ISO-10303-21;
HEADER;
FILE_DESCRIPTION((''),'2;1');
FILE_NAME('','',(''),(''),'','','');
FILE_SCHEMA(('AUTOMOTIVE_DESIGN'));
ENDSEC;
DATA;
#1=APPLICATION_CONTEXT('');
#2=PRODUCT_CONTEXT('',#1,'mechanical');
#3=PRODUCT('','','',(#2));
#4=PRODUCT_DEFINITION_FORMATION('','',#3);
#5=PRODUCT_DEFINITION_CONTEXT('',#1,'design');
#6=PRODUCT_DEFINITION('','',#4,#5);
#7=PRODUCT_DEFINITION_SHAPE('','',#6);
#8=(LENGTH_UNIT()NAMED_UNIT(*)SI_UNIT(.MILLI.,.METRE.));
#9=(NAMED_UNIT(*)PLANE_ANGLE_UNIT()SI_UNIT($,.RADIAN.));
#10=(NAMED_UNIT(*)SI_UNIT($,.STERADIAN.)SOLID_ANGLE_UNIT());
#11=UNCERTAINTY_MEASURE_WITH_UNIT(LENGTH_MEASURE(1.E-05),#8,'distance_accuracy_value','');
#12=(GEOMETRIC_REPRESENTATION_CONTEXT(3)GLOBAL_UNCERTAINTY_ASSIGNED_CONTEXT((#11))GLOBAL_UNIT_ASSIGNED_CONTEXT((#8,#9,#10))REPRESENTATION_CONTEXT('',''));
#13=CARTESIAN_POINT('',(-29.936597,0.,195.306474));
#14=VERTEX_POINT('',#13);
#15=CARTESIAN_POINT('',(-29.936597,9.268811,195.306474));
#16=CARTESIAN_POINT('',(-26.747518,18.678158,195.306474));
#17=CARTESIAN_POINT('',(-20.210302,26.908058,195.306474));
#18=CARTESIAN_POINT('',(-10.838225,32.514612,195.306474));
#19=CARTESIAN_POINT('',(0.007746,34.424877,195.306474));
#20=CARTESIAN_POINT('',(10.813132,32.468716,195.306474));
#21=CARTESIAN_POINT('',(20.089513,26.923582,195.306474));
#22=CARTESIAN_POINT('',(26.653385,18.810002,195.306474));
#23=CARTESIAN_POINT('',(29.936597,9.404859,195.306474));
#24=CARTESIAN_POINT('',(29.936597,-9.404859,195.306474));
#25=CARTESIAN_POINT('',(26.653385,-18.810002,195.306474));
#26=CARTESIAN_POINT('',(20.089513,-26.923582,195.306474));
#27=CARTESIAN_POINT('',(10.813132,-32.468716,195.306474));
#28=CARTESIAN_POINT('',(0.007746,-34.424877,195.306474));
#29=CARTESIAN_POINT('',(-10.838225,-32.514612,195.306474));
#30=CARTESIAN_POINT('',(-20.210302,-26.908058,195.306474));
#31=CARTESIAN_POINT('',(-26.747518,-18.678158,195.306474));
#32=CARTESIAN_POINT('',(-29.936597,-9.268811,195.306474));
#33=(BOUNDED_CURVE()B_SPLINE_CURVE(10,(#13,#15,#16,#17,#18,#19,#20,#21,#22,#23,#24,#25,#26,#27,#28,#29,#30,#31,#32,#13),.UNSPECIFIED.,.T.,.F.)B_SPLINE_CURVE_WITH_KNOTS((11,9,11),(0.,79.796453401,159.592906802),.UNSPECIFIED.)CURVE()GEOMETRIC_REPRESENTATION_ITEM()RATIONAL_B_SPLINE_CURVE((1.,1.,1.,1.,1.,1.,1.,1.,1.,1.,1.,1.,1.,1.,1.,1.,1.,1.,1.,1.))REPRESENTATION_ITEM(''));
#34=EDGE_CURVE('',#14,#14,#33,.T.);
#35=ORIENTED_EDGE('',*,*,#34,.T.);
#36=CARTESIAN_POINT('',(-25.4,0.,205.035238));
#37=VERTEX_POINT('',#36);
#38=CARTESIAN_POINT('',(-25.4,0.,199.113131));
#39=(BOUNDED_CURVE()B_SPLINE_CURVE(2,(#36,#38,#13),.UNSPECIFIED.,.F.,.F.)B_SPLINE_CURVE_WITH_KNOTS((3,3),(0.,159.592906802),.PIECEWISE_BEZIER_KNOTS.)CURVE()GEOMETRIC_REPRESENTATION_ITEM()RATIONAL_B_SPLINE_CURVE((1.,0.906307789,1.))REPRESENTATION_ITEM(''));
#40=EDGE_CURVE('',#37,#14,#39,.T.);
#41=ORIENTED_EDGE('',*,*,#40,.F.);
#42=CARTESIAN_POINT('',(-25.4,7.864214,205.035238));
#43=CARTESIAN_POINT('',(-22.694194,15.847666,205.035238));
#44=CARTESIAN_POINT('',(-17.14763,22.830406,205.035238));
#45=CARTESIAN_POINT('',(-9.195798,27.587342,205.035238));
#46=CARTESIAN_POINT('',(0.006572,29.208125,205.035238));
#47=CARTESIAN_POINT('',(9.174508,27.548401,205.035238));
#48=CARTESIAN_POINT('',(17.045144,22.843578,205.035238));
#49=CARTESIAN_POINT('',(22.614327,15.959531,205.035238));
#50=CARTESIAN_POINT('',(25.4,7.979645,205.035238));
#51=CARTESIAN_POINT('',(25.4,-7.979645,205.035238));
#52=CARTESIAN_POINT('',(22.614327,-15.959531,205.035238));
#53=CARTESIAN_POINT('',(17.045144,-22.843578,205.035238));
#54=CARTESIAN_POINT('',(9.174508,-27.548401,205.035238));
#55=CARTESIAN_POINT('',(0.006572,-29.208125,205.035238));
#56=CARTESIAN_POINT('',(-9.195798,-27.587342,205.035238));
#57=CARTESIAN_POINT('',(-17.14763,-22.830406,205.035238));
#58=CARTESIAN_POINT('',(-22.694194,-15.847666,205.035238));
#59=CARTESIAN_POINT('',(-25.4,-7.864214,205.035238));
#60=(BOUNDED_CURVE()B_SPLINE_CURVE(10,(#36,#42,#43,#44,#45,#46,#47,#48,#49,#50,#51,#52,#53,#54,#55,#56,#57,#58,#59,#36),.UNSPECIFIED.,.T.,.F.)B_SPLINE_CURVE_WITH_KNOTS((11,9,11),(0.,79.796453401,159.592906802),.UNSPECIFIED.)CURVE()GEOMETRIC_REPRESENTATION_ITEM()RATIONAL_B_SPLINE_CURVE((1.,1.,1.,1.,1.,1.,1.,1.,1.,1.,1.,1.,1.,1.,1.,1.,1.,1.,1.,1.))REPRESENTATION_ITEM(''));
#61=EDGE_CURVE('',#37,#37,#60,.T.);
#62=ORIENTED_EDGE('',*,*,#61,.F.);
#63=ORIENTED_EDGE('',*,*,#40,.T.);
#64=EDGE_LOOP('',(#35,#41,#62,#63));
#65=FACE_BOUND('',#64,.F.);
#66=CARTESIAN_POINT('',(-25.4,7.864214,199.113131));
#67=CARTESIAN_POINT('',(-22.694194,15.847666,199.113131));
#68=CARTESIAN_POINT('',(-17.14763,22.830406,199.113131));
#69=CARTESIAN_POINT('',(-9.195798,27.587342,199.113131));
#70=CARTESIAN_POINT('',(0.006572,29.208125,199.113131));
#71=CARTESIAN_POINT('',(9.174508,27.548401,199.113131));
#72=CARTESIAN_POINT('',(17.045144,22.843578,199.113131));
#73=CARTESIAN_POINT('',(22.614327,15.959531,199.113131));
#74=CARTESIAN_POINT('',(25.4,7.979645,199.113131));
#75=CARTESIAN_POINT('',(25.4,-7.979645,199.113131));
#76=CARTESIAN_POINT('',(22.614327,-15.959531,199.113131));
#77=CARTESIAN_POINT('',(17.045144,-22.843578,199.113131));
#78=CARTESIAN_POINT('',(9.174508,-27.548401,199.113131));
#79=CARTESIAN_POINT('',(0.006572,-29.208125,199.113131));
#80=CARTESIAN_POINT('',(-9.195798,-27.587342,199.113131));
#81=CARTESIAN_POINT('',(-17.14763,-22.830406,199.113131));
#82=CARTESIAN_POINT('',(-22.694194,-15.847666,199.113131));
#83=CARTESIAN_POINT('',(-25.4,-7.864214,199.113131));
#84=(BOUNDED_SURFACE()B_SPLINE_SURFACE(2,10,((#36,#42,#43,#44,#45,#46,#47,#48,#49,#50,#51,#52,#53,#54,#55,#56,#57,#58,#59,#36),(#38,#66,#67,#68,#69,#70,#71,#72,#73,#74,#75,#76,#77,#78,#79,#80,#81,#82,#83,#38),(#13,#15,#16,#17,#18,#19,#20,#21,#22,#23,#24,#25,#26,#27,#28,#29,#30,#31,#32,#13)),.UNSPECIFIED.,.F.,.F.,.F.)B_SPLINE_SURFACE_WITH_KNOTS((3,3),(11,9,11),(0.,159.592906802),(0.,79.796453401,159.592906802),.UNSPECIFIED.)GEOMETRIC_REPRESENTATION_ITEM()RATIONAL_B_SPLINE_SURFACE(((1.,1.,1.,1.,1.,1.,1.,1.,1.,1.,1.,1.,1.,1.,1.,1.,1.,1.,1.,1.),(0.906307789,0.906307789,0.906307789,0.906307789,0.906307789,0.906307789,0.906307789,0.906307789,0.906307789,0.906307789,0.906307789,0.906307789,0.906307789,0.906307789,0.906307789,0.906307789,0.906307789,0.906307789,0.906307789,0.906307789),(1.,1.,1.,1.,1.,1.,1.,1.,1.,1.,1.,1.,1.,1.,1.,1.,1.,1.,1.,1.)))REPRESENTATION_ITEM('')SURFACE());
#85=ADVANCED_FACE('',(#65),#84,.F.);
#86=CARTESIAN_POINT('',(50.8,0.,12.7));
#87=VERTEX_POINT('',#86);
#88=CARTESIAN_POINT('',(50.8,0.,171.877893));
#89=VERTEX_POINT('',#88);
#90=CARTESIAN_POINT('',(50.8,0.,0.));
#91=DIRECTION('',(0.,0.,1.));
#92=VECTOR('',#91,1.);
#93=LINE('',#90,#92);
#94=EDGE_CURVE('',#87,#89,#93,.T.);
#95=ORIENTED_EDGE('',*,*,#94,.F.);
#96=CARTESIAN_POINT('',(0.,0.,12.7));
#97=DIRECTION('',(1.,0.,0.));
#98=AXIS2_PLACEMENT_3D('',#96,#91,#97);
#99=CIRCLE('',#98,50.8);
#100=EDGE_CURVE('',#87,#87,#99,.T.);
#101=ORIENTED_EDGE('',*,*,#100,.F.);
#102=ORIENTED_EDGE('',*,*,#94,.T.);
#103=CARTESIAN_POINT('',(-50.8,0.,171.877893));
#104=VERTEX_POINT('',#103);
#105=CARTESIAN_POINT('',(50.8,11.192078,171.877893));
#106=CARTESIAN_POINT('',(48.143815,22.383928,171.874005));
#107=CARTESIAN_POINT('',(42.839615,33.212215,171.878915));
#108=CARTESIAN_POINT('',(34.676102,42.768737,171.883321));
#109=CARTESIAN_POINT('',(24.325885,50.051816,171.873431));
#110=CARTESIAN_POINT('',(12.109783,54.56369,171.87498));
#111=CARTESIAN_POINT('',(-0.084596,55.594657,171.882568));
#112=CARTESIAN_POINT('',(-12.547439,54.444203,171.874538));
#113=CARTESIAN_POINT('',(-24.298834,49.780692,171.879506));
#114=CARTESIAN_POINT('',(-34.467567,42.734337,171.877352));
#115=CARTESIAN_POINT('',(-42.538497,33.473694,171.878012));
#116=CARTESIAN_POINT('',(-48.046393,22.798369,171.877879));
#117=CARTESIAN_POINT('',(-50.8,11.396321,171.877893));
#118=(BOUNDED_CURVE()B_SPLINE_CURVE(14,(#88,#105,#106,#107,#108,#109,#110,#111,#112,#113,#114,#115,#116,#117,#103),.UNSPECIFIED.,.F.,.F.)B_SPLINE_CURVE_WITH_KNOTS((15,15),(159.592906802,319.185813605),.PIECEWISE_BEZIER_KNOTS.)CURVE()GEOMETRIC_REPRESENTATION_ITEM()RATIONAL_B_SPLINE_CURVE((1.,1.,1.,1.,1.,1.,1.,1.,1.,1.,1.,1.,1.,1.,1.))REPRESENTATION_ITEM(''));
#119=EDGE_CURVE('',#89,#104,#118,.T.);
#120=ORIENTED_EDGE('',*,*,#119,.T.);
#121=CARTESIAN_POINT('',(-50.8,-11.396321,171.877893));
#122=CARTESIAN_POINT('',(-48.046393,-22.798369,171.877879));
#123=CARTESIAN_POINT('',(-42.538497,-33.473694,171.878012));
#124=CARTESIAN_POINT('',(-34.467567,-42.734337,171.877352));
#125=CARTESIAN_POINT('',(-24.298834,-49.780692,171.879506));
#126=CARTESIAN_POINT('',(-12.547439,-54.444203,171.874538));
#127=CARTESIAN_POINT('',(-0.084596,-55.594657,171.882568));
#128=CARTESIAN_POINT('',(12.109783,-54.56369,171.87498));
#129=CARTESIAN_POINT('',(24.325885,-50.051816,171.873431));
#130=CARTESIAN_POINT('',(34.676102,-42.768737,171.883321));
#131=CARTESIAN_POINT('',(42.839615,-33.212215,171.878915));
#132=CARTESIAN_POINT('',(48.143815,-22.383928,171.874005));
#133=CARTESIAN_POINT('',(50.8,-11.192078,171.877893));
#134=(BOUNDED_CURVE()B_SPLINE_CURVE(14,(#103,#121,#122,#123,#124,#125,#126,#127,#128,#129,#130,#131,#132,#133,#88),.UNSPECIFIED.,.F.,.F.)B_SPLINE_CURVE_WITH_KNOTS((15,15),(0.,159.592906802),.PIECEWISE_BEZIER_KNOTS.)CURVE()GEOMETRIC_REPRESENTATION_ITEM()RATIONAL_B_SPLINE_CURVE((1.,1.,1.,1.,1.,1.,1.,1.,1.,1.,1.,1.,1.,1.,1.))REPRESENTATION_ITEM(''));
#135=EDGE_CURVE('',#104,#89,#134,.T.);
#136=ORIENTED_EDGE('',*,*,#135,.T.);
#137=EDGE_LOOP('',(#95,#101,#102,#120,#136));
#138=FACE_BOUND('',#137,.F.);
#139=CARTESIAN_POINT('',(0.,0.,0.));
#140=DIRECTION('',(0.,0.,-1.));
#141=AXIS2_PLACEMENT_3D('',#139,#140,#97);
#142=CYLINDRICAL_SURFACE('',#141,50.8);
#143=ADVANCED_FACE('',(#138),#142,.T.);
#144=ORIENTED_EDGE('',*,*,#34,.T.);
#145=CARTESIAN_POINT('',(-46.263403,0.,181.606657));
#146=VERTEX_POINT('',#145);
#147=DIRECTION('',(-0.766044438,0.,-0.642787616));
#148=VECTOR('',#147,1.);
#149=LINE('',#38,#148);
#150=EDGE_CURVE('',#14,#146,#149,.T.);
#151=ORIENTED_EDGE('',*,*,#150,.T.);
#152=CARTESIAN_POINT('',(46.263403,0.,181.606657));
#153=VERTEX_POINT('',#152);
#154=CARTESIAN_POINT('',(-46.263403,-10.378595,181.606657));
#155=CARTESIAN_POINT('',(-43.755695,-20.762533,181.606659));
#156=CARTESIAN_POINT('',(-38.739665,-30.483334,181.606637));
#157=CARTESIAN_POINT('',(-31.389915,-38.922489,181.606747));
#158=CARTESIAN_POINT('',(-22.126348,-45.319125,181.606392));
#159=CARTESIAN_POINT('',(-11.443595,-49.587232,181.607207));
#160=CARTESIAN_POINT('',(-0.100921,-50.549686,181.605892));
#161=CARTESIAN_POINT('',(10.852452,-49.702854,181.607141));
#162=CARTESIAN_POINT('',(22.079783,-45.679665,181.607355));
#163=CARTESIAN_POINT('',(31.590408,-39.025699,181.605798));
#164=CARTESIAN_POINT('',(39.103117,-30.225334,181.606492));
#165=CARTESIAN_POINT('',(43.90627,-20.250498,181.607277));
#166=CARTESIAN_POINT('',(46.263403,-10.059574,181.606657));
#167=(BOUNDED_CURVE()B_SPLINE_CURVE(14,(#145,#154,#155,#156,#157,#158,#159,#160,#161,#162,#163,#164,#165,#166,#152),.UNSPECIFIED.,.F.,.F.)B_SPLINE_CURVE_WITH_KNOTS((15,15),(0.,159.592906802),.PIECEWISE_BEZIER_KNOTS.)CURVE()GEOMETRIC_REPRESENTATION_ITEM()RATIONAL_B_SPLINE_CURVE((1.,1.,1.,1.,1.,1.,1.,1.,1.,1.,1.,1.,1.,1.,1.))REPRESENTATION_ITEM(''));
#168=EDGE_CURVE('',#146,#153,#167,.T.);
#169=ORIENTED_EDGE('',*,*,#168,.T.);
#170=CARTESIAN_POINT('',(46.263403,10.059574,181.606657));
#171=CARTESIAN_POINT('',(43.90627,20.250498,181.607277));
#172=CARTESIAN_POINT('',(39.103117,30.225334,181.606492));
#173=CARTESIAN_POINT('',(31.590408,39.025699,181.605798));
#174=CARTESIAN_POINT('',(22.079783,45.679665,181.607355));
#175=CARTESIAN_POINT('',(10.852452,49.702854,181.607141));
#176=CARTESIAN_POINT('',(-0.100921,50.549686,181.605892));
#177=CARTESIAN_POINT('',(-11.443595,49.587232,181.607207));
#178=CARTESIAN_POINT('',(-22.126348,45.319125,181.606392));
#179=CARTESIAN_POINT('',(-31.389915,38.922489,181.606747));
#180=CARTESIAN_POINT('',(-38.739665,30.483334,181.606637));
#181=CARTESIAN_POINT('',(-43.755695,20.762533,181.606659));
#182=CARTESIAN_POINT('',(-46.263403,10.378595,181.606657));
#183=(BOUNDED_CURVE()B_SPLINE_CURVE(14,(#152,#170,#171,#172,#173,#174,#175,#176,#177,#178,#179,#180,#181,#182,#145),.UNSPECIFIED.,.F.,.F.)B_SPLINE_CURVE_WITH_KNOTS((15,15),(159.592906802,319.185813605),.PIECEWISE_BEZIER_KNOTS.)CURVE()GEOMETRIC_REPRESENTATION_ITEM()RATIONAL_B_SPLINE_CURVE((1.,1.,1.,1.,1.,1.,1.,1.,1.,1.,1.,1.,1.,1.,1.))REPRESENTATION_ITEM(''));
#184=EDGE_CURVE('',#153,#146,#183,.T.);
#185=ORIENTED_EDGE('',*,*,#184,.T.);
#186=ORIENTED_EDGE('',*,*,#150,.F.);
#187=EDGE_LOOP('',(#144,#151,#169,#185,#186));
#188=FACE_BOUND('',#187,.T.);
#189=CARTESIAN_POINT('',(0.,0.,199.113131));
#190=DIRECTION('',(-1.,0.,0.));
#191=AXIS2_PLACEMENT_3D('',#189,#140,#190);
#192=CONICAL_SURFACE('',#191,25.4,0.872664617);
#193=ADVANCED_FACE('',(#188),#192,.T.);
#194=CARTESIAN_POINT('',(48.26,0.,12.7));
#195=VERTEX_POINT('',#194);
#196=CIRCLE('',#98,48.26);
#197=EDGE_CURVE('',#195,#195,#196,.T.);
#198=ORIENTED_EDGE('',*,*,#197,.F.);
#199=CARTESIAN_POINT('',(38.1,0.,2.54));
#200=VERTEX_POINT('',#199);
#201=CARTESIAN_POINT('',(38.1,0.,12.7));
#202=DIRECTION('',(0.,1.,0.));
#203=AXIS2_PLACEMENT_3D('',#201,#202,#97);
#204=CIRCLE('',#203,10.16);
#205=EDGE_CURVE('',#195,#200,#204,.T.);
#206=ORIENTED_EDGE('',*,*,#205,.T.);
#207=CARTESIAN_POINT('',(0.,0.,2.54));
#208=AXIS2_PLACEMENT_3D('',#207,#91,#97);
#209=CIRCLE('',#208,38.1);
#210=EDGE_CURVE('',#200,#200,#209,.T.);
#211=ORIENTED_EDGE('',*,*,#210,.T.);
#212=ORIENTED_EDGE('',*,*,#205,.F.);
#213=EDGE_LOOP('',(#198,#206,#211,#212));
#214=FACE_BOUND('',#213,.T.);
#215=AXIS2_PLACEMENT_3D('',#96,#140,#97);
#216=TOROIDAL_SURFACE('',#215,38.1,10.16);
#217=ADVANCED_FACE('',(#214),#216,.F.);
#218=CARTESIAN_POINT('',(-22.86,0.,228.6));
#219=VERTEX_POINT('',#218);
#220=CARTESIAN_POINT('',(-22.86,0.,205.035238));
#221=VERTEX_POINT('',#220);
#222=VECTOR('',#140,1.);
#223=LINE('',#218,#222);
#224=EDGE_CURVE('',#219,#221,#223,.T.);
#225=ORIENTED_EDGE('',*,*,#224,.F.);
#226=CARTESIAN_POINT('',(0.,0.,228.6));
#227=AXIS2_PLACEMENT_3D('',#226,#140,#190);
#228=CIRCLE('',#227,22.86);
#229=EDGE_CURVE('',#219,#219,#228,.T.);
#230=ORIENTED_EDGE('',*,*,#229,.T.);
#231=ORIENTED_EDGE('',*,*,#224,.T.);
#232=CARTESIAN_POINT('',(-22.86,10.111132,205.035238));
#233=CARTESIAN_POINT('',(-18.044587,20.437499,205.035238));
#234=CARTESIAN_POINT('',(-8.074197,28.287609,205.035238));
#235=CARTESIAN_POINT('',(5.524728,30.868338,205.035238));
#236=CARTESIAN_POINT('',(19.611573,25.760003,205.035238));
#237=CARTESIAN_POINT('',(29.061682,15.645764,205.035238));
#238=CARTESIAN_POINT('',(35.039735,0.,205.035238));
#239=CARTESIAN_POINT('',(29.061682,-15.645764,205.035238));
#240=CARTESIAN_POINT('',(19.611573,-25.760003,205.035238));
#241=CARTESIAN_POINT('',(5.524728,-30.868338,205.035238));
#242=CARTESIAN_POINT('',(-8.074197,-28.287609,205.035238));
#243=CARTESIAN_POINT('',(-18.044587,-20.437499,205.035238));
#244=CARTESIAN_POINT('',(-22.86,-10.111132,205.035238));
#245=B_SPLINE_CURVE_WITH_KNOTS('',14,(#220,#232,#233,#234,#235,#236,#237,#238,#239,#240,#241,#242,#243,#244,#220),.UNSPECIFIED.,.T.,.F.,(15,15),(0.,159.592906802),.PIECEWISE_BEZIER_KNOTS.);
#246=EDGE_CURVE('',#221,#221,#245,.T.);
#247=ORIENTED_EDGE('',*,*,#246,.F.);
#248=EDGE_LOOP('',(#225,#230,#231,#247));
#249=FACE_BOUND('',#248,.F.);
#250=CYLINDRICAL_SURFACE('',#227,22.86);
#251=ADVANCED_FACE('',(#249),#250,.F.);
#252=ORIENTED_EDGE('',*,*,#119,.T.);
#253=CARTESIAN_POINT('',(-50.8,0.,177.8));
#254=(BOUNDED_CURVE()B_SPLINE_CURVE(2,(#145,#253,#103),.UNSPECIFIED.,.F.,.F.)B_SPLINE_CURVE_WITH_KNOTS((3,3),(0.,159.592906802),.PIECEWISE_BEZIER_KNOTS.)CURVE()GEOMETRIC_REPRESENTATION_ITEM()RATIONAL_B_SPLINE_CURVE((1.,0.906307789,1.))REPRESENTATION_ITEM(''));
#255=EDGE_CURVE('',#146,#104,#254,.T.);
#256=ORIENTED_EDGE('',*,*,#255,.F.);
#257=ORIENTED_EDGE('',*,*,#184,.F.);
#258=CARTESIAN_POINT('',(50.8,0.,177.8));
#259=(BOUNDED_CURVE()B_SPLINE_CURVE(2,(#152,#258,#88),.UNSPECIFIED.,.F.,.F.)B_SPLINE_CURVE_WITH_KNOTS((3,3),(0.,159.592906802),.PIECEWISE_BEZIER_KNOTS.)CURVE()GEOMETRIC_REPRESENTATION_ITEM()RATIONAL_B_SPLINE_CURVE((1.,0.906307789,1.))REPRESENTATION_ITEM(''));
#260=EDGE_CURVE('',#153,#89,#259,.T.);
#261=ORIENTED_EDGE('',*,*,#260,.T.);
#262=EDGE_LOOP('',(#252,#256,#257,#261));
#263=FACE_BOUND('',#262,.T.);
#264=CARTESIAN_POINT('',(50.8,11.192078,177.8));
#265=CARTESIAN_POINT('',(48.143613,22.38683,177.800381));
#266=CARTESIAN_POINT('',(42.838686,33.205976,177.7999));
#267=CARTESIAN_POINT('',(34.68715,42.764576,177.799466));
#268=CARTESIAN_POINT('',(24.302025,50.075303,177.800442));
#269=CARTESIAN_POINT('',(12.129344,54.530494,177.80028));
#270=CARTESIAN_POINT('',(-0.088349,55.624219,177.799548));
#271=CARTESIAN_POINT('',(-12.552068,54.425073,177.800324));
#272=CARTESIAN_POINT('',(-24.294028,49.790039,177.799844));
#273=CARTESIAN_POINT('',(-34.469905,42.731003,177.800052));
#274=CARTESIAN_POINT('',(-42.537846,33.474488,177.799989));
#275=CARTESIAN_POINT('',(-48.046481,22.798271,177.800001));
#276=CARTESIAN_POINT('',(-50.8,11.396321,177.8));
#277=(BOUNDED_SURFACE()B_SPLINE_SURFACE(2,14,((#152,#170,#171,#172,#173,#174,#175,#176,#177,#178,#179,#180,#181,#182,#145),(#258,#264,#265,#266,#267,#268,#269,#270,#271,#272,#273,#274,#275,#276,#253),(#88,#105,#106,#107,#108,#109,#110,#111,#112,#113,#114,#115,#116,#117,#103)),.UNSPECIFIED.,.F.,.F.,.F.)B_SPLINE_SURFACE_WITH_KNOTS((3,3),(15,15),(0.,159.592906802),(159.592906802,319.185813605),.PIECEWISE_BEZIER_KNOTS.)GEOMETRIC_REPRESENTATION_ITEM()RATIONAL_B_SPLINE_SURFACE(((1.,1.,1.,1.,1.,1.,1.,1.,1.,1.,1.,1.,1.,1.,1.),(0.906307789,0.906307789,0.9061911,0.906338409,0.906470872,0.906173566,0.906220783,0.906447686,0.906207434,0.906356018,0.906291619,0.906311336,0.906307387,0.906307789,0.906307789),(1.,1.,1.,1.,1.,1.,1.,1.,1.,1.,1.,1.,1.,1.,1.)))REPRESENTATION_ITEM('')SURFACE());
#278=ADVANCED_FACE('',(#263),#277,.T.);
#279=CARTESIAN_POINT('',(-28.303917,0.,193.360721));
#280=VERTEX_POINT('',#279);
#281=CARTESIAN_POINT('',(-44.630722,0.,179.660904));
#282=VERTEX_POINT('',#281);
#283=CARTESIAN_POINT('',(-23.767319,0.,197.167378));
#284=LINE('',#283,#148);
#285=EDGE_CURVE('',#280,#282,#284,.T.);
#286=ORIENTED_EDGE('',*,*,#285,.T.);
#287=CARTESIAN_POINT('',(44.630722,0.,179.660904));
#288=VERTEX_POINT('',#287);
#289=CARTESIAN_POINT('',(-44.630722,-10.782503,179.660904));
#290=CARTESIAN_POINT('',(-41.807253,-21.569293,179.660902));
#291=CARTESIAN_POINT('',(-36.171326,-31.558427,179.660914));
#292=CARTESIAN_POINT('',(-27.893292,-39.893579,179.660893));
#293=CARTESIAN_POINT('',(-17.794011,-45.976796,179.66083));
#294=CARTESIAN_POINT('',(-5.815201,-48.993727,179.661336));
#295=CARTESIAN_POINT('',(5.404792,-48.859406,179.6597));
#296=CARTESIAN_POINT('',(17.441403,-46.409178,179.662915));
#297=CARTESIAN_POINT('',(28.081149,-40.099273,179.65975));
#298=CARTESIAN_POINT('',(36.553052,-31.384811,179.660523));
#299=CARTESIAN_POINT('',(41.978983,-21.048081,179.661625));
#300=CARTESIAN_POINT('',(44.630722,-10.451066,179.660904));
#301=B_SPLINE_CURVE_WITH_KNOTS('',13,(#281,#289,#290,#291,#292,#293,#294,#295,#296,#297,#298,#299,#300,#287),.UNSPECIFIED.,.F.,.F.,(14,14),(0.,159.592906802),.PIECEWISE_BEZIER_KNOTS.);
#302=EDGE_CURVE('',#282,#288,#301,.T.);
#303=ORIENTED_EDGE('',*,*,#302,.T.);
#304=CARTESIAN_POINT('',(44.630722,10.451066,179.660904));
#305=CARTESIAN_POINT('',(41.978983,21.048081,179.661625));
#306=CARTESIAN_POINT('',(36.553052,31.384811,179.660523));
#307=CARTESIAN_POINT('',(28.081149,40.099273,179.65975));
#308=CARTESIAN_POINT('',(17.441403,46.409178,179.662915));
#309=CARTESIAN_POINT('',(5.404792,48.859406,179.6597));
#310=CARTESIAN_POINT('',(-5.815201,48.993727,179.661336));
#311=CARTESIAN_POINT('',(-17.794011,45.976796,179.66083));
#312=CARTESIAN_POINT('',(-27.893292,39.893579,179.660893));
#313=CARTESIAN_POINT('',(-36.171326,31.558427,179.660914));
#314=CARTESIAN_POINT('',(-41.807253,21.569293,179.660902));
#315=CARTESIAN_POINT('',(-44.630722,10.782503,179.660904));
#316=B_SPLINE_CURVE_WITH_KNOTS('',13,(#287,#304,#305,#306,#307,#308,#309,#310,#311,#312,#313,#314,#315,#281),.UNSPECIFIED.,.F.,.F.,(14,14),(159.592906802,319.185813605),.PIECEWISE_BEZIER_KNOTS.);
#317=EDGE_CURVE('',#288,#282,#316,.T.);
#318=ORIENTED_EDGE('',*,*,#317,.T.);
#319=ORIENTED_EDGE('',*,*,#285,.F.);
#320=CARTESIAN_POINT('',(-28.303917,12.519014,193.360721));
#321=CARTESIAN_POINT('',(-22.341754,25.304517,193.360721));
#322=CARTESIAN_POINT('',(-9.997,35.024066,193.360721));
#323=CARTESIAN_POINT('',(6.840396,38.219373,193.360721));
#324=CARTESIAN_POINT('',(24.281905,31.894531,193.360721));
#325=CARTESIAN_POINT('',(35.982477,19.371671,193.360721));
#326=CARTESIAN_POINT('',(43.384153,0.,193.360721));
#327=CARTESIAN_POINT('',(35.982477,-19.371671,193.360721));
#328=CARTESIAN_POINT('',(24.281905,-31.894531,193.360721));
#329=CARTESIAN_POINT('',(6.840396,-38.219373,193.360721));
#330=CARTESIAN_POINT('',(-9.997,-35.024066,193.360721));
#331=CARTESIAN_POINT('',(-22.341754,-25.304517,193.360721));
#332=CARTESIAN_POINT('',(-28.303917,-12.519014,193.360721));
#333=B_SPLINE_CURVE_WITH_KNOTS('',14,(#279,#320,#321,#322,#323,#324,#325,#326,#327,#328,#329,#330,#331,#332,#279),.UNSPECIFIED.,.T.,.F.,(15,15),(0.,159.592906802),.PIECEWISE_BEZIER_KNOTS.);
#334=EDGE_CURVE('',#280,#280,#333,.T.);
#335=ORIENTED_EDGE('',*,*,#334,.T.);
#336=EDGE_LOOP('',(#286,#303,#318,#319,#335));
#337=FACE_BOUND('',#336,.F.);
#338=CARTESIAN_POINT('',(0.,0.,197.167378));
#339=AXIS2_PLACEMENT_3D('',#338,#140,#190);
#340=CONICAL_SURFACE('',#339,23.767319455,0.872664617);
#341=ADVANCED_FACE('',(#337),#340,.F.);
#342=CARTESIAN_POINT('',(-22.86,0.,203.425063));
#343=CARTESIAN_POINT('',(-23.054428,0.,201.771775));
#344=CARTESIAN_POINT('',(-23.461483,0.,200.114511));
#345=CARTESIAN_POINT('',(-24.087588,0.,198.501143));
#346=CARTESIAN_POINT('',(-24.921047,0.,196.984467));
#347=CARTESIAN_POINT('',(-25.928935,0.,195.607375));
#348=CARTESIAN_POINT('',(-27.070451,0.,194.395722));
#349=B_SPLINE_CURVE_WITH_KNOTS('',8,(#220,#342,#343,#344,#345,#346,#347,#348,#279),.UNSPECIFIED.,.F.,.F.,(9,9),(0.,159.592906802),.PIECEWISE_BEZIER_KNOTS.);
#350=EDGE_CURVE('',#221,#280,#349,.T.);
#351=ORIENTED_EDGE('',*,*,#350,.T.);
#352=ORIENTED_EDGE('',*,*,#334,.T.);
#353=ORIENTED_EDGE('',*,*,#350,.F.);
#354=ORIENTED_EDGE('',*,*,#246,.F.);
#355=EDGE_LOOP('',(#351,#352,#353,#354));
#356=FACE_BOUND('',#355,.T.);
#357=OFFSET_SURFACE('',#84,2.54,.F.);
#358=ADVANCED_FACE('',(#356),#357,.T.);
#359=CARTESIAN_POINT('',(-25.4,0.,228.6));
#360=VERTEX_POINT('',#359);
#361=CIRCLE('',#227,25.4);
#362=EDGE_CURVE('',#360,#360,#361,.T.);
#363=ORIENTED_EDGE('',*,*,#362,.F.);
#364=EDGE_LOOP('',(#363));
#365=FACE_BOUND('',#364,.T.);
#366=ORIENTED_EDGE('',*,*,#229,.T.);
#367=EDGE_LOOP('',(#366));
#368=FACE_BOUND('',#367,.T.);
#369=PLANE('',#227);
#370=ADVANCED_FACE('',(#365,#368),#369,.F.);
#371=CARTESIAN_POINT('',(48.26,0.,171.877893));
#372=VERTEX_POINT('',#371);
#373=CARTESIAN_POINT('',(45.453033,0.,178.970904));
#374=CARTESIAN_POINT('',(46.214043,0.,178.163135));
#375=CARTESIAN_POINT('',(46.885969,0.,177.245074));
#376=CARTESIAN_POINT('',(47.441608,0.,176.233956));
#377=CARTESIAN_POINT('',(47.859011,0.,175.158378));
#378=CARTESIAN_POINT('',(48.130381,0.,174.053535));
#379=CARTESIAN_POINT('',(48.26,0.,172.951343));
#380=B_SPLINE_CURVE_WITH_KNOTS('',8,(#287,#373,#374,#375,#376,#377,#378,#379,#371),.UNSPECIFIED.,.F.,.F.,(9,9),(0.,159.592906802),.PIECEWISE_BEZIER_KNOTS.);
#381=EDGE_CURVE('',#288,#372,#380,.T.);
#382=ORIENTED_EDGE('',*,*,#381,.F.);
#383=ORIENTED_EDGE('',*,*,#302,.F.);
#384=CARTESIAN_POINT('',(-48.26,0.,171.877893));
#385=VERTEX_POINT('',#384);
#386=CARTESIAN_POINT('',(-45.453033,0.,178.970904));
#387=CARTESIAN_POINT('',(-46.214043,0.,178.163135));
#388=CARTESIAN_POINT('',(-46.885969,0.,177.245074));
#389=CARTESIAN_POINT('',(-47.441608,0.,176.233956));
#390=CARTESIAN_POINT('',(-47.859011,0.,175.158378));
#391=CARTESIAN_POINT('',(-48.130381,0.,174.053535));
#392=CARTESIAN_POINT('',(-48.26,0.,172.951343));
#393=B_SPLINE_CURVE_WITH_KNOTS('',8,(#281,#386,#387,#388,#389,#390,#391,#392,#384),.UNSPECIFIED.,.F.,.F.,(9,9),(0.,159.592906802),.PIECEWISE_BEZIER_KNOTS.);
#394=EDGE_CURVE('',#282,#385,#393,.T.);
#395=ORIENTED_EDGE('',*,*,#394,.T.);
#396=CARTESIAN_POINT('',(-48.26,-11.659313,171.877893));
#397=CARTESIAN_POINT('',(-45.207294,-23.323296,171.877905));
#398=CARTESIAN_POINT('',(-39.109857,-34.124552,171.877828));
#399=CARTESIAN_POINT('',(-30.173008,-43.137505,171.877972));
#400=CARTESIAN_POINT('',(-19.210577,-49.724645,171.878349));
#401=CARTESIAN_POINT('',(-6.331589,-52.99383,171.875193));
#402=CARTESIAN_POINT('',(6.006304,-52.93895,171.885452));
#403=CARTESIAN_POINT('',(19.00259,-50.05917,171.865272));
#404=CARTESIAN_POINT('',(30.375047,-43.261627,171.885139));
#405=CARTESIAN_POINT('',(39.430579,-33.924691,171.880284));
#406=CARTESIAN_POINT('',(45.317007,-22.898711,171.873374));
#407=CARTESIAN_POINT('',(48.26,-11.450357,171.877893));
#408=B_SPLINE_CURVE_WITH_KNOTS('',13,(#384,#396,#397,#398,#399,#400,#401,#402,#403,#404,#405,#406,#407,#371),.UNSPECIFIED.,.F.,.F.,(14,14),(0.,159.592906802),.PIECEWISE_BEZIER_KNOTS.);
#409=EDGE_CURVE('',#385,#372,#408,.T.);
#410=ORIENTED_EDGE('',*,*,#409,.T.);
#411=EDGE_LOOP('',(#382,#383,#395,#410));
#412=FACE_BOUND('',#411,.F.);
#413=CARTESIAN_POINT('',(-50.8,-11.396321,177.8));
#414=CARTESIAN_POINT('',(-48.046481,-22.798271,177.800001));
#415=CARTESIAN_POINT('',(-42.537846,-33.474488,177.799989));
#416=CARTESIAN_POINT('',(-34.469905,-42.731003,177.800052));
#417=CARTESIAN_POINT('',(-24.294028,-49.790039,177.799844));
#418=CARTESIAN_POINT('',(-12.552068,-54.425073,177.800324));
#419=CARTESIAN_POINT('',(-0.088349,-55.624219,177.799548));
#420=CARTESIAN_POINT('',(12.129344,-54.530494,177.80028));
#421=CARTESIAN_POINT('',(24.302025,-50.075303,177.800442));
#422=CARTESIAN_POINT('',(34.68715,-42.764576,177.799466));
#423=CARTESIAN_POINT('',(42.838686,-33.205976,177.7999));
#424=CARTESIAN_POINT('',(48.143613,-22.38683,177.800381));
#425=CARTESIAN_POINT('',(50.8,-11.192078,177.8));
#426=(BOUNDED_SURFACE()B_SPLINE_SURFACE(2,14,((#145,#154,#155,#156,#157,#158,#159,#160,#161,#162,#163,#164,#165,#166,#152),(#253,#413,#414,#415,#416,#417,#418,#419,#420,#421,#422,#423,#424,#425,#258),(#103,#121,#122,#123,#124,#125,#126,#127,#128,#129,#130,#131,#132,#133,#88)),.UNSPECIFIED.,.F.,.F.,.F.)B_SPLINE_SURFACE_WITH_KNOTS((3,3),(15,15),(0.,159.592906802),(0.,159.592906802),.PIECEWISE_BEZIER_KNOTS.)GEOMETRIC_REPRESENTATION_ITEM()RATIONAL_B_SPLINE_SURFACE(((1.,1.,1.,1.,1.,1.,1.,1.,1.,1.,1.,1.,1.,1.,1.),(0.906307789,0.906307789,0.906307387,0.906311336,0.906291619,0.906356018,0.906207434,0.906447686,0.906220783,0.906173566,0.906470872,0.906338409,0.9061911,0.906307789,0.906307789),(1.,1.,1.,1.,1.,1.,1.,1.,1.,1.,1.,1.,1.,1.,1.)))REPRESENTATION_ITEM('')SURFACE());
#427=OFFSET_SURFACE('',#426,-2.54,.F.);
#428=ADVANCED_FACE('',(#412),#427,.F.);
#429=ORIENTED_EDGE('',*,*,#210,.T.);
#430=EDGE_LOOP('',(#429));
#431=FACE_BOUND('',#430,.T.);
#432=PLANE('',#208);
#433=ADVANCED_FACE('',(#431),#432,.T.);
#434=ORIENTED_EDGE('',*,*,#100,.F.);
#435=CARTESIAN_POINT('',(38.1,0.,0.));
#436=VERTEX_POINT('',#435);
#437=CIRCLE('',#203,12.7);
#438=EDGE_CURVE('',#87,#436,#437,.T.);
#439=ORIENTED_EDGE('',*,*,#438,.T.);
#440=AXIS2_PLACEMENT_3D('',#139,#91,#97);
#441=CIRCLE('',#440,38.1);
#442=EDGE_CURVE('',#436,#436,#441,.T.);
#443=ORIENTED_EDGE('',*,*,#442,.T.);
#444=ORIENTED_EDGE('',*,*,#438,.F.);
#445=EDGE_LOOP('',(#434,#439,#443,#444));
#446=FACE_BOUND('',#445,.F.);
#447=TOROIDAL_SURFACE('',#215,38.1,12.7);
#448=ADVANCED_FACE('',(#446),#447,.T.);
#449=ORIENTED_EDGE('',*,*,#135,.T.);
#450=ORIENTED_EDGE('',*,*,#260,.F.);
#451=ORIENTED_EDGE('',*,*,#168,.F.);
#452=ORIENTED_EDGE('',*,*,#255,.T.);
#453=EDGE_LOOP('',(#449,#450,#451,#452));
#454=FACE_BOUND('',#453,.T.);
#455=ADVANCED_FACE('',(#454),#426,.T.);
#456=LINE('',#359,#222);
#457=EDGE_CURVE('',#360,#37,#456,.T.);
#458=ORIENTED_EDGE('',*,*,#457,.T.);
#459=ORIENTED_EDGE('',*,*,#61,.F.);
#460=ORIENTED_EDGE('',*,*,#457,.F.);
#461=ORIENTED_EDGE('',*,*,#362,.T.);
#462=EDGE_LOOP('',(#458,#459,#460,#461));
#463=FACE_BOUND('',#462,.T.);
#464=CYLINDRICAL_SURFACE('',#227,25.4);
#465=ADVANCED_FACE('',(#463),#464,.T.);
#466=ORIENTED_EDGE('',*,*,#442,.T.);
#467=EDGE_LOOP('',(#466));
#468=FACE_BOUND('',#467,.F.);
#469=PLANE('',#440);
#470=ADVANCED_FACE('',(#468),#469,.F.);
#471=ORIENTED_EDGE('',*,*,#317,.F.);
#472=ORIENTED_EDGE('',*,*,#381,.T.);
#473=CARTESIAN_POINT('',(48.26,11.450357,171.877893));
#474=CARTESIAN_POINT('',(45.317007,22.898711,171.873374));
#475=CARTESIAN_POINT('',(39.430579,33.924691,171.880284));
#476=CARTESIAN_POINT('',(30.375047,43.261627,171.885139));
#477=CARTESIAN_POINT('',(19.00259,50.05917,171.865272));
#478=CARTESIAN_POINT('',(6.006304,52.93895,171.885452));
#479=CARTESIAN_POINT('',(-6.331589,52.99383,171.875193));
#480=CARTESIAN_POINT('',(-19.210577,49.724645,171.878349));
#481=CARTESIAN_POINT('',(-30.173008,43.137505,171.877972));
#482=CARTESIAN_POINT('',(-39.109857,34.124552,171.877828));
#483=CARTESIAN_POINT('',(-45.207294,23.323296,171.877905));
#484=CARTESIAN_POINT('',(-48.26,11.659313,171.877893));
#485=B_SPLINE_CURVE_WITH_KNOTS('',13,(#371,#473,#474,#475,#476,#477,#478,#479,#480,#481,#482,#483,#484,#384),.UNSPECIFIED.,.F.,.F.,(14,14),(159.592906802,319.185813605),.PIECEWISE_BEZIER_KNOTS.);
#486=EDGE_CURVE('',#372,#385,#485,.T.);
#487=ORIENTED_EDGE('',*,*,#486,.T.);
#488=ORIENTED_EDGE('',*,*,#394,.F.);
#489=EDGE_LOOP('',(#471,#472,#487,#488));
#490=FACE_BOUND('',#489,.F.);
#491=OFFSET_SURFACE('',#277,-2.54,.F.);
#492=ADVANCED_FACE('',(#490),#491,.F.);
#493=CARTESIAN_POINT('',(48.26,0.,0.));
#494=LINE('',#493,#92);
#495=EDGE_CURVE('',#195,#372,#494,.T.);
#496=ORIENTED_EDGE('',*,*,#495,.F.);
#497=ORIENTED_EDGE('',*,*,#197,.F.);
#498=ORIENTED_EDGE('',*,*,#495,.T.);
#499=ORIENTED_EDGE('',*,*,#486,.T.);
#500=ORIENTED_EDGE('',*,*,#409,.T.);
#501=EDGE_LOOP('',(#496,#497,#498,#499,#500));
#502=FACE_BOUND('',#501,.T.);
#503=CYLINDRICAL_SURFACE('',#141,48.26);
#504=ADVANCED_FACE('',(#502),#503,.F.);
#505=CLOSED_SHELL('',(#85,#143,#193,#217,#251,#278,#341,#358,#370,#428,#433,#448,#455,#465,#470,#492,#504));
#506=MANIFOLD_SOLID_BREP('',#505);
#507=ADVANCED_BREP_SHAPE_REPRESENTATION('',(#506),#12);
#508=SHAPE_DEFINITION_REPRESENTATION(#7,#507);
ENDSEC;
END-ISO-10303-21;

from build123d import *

# Parameters (mm, degrees)
F0_R     = 50.8
F1_DEPTH = 177.8
F4_R     = 12.7
F5_T     = -2.54


with BuildPart() as f1:
    # F0 (on Top) → F1 (new body)
    with BuildSketch(Plane.XY):
        Circle(F0_R)
    extrude(amount=F1_DEPTH)

    # F2 (on Front) → F3 (revolve)
    with BuildSketch(Plane.XZ):
        Polygon((-50.8, 177.8), (0, 177.8), (0, 228.6), (-25.4, 228.6), (-25.4, 199.113131), align=None)
    revolve(axis=Axis((0, 0, 203.2), (0, 0, -1)))

    # F4
    f4_edges = [f1.edges().sort_by_distance(p)[0] for p in [
        (-50.8, 0, 0),
        (0, -50.8, 177.8),
        (0, 50.8, 177.8),
        (25.4, 0, 199.113131),
    ]]
    fillet(f4_edges, radius=F4_R)

    # F5
    f5_openings = [f1.faces().sort_by_distance(p)[0] for p in [
        (0, 0, 228.6),
    ]]
    offset(amount=F5_T, openings=f5_openings)


solid = f1.part
